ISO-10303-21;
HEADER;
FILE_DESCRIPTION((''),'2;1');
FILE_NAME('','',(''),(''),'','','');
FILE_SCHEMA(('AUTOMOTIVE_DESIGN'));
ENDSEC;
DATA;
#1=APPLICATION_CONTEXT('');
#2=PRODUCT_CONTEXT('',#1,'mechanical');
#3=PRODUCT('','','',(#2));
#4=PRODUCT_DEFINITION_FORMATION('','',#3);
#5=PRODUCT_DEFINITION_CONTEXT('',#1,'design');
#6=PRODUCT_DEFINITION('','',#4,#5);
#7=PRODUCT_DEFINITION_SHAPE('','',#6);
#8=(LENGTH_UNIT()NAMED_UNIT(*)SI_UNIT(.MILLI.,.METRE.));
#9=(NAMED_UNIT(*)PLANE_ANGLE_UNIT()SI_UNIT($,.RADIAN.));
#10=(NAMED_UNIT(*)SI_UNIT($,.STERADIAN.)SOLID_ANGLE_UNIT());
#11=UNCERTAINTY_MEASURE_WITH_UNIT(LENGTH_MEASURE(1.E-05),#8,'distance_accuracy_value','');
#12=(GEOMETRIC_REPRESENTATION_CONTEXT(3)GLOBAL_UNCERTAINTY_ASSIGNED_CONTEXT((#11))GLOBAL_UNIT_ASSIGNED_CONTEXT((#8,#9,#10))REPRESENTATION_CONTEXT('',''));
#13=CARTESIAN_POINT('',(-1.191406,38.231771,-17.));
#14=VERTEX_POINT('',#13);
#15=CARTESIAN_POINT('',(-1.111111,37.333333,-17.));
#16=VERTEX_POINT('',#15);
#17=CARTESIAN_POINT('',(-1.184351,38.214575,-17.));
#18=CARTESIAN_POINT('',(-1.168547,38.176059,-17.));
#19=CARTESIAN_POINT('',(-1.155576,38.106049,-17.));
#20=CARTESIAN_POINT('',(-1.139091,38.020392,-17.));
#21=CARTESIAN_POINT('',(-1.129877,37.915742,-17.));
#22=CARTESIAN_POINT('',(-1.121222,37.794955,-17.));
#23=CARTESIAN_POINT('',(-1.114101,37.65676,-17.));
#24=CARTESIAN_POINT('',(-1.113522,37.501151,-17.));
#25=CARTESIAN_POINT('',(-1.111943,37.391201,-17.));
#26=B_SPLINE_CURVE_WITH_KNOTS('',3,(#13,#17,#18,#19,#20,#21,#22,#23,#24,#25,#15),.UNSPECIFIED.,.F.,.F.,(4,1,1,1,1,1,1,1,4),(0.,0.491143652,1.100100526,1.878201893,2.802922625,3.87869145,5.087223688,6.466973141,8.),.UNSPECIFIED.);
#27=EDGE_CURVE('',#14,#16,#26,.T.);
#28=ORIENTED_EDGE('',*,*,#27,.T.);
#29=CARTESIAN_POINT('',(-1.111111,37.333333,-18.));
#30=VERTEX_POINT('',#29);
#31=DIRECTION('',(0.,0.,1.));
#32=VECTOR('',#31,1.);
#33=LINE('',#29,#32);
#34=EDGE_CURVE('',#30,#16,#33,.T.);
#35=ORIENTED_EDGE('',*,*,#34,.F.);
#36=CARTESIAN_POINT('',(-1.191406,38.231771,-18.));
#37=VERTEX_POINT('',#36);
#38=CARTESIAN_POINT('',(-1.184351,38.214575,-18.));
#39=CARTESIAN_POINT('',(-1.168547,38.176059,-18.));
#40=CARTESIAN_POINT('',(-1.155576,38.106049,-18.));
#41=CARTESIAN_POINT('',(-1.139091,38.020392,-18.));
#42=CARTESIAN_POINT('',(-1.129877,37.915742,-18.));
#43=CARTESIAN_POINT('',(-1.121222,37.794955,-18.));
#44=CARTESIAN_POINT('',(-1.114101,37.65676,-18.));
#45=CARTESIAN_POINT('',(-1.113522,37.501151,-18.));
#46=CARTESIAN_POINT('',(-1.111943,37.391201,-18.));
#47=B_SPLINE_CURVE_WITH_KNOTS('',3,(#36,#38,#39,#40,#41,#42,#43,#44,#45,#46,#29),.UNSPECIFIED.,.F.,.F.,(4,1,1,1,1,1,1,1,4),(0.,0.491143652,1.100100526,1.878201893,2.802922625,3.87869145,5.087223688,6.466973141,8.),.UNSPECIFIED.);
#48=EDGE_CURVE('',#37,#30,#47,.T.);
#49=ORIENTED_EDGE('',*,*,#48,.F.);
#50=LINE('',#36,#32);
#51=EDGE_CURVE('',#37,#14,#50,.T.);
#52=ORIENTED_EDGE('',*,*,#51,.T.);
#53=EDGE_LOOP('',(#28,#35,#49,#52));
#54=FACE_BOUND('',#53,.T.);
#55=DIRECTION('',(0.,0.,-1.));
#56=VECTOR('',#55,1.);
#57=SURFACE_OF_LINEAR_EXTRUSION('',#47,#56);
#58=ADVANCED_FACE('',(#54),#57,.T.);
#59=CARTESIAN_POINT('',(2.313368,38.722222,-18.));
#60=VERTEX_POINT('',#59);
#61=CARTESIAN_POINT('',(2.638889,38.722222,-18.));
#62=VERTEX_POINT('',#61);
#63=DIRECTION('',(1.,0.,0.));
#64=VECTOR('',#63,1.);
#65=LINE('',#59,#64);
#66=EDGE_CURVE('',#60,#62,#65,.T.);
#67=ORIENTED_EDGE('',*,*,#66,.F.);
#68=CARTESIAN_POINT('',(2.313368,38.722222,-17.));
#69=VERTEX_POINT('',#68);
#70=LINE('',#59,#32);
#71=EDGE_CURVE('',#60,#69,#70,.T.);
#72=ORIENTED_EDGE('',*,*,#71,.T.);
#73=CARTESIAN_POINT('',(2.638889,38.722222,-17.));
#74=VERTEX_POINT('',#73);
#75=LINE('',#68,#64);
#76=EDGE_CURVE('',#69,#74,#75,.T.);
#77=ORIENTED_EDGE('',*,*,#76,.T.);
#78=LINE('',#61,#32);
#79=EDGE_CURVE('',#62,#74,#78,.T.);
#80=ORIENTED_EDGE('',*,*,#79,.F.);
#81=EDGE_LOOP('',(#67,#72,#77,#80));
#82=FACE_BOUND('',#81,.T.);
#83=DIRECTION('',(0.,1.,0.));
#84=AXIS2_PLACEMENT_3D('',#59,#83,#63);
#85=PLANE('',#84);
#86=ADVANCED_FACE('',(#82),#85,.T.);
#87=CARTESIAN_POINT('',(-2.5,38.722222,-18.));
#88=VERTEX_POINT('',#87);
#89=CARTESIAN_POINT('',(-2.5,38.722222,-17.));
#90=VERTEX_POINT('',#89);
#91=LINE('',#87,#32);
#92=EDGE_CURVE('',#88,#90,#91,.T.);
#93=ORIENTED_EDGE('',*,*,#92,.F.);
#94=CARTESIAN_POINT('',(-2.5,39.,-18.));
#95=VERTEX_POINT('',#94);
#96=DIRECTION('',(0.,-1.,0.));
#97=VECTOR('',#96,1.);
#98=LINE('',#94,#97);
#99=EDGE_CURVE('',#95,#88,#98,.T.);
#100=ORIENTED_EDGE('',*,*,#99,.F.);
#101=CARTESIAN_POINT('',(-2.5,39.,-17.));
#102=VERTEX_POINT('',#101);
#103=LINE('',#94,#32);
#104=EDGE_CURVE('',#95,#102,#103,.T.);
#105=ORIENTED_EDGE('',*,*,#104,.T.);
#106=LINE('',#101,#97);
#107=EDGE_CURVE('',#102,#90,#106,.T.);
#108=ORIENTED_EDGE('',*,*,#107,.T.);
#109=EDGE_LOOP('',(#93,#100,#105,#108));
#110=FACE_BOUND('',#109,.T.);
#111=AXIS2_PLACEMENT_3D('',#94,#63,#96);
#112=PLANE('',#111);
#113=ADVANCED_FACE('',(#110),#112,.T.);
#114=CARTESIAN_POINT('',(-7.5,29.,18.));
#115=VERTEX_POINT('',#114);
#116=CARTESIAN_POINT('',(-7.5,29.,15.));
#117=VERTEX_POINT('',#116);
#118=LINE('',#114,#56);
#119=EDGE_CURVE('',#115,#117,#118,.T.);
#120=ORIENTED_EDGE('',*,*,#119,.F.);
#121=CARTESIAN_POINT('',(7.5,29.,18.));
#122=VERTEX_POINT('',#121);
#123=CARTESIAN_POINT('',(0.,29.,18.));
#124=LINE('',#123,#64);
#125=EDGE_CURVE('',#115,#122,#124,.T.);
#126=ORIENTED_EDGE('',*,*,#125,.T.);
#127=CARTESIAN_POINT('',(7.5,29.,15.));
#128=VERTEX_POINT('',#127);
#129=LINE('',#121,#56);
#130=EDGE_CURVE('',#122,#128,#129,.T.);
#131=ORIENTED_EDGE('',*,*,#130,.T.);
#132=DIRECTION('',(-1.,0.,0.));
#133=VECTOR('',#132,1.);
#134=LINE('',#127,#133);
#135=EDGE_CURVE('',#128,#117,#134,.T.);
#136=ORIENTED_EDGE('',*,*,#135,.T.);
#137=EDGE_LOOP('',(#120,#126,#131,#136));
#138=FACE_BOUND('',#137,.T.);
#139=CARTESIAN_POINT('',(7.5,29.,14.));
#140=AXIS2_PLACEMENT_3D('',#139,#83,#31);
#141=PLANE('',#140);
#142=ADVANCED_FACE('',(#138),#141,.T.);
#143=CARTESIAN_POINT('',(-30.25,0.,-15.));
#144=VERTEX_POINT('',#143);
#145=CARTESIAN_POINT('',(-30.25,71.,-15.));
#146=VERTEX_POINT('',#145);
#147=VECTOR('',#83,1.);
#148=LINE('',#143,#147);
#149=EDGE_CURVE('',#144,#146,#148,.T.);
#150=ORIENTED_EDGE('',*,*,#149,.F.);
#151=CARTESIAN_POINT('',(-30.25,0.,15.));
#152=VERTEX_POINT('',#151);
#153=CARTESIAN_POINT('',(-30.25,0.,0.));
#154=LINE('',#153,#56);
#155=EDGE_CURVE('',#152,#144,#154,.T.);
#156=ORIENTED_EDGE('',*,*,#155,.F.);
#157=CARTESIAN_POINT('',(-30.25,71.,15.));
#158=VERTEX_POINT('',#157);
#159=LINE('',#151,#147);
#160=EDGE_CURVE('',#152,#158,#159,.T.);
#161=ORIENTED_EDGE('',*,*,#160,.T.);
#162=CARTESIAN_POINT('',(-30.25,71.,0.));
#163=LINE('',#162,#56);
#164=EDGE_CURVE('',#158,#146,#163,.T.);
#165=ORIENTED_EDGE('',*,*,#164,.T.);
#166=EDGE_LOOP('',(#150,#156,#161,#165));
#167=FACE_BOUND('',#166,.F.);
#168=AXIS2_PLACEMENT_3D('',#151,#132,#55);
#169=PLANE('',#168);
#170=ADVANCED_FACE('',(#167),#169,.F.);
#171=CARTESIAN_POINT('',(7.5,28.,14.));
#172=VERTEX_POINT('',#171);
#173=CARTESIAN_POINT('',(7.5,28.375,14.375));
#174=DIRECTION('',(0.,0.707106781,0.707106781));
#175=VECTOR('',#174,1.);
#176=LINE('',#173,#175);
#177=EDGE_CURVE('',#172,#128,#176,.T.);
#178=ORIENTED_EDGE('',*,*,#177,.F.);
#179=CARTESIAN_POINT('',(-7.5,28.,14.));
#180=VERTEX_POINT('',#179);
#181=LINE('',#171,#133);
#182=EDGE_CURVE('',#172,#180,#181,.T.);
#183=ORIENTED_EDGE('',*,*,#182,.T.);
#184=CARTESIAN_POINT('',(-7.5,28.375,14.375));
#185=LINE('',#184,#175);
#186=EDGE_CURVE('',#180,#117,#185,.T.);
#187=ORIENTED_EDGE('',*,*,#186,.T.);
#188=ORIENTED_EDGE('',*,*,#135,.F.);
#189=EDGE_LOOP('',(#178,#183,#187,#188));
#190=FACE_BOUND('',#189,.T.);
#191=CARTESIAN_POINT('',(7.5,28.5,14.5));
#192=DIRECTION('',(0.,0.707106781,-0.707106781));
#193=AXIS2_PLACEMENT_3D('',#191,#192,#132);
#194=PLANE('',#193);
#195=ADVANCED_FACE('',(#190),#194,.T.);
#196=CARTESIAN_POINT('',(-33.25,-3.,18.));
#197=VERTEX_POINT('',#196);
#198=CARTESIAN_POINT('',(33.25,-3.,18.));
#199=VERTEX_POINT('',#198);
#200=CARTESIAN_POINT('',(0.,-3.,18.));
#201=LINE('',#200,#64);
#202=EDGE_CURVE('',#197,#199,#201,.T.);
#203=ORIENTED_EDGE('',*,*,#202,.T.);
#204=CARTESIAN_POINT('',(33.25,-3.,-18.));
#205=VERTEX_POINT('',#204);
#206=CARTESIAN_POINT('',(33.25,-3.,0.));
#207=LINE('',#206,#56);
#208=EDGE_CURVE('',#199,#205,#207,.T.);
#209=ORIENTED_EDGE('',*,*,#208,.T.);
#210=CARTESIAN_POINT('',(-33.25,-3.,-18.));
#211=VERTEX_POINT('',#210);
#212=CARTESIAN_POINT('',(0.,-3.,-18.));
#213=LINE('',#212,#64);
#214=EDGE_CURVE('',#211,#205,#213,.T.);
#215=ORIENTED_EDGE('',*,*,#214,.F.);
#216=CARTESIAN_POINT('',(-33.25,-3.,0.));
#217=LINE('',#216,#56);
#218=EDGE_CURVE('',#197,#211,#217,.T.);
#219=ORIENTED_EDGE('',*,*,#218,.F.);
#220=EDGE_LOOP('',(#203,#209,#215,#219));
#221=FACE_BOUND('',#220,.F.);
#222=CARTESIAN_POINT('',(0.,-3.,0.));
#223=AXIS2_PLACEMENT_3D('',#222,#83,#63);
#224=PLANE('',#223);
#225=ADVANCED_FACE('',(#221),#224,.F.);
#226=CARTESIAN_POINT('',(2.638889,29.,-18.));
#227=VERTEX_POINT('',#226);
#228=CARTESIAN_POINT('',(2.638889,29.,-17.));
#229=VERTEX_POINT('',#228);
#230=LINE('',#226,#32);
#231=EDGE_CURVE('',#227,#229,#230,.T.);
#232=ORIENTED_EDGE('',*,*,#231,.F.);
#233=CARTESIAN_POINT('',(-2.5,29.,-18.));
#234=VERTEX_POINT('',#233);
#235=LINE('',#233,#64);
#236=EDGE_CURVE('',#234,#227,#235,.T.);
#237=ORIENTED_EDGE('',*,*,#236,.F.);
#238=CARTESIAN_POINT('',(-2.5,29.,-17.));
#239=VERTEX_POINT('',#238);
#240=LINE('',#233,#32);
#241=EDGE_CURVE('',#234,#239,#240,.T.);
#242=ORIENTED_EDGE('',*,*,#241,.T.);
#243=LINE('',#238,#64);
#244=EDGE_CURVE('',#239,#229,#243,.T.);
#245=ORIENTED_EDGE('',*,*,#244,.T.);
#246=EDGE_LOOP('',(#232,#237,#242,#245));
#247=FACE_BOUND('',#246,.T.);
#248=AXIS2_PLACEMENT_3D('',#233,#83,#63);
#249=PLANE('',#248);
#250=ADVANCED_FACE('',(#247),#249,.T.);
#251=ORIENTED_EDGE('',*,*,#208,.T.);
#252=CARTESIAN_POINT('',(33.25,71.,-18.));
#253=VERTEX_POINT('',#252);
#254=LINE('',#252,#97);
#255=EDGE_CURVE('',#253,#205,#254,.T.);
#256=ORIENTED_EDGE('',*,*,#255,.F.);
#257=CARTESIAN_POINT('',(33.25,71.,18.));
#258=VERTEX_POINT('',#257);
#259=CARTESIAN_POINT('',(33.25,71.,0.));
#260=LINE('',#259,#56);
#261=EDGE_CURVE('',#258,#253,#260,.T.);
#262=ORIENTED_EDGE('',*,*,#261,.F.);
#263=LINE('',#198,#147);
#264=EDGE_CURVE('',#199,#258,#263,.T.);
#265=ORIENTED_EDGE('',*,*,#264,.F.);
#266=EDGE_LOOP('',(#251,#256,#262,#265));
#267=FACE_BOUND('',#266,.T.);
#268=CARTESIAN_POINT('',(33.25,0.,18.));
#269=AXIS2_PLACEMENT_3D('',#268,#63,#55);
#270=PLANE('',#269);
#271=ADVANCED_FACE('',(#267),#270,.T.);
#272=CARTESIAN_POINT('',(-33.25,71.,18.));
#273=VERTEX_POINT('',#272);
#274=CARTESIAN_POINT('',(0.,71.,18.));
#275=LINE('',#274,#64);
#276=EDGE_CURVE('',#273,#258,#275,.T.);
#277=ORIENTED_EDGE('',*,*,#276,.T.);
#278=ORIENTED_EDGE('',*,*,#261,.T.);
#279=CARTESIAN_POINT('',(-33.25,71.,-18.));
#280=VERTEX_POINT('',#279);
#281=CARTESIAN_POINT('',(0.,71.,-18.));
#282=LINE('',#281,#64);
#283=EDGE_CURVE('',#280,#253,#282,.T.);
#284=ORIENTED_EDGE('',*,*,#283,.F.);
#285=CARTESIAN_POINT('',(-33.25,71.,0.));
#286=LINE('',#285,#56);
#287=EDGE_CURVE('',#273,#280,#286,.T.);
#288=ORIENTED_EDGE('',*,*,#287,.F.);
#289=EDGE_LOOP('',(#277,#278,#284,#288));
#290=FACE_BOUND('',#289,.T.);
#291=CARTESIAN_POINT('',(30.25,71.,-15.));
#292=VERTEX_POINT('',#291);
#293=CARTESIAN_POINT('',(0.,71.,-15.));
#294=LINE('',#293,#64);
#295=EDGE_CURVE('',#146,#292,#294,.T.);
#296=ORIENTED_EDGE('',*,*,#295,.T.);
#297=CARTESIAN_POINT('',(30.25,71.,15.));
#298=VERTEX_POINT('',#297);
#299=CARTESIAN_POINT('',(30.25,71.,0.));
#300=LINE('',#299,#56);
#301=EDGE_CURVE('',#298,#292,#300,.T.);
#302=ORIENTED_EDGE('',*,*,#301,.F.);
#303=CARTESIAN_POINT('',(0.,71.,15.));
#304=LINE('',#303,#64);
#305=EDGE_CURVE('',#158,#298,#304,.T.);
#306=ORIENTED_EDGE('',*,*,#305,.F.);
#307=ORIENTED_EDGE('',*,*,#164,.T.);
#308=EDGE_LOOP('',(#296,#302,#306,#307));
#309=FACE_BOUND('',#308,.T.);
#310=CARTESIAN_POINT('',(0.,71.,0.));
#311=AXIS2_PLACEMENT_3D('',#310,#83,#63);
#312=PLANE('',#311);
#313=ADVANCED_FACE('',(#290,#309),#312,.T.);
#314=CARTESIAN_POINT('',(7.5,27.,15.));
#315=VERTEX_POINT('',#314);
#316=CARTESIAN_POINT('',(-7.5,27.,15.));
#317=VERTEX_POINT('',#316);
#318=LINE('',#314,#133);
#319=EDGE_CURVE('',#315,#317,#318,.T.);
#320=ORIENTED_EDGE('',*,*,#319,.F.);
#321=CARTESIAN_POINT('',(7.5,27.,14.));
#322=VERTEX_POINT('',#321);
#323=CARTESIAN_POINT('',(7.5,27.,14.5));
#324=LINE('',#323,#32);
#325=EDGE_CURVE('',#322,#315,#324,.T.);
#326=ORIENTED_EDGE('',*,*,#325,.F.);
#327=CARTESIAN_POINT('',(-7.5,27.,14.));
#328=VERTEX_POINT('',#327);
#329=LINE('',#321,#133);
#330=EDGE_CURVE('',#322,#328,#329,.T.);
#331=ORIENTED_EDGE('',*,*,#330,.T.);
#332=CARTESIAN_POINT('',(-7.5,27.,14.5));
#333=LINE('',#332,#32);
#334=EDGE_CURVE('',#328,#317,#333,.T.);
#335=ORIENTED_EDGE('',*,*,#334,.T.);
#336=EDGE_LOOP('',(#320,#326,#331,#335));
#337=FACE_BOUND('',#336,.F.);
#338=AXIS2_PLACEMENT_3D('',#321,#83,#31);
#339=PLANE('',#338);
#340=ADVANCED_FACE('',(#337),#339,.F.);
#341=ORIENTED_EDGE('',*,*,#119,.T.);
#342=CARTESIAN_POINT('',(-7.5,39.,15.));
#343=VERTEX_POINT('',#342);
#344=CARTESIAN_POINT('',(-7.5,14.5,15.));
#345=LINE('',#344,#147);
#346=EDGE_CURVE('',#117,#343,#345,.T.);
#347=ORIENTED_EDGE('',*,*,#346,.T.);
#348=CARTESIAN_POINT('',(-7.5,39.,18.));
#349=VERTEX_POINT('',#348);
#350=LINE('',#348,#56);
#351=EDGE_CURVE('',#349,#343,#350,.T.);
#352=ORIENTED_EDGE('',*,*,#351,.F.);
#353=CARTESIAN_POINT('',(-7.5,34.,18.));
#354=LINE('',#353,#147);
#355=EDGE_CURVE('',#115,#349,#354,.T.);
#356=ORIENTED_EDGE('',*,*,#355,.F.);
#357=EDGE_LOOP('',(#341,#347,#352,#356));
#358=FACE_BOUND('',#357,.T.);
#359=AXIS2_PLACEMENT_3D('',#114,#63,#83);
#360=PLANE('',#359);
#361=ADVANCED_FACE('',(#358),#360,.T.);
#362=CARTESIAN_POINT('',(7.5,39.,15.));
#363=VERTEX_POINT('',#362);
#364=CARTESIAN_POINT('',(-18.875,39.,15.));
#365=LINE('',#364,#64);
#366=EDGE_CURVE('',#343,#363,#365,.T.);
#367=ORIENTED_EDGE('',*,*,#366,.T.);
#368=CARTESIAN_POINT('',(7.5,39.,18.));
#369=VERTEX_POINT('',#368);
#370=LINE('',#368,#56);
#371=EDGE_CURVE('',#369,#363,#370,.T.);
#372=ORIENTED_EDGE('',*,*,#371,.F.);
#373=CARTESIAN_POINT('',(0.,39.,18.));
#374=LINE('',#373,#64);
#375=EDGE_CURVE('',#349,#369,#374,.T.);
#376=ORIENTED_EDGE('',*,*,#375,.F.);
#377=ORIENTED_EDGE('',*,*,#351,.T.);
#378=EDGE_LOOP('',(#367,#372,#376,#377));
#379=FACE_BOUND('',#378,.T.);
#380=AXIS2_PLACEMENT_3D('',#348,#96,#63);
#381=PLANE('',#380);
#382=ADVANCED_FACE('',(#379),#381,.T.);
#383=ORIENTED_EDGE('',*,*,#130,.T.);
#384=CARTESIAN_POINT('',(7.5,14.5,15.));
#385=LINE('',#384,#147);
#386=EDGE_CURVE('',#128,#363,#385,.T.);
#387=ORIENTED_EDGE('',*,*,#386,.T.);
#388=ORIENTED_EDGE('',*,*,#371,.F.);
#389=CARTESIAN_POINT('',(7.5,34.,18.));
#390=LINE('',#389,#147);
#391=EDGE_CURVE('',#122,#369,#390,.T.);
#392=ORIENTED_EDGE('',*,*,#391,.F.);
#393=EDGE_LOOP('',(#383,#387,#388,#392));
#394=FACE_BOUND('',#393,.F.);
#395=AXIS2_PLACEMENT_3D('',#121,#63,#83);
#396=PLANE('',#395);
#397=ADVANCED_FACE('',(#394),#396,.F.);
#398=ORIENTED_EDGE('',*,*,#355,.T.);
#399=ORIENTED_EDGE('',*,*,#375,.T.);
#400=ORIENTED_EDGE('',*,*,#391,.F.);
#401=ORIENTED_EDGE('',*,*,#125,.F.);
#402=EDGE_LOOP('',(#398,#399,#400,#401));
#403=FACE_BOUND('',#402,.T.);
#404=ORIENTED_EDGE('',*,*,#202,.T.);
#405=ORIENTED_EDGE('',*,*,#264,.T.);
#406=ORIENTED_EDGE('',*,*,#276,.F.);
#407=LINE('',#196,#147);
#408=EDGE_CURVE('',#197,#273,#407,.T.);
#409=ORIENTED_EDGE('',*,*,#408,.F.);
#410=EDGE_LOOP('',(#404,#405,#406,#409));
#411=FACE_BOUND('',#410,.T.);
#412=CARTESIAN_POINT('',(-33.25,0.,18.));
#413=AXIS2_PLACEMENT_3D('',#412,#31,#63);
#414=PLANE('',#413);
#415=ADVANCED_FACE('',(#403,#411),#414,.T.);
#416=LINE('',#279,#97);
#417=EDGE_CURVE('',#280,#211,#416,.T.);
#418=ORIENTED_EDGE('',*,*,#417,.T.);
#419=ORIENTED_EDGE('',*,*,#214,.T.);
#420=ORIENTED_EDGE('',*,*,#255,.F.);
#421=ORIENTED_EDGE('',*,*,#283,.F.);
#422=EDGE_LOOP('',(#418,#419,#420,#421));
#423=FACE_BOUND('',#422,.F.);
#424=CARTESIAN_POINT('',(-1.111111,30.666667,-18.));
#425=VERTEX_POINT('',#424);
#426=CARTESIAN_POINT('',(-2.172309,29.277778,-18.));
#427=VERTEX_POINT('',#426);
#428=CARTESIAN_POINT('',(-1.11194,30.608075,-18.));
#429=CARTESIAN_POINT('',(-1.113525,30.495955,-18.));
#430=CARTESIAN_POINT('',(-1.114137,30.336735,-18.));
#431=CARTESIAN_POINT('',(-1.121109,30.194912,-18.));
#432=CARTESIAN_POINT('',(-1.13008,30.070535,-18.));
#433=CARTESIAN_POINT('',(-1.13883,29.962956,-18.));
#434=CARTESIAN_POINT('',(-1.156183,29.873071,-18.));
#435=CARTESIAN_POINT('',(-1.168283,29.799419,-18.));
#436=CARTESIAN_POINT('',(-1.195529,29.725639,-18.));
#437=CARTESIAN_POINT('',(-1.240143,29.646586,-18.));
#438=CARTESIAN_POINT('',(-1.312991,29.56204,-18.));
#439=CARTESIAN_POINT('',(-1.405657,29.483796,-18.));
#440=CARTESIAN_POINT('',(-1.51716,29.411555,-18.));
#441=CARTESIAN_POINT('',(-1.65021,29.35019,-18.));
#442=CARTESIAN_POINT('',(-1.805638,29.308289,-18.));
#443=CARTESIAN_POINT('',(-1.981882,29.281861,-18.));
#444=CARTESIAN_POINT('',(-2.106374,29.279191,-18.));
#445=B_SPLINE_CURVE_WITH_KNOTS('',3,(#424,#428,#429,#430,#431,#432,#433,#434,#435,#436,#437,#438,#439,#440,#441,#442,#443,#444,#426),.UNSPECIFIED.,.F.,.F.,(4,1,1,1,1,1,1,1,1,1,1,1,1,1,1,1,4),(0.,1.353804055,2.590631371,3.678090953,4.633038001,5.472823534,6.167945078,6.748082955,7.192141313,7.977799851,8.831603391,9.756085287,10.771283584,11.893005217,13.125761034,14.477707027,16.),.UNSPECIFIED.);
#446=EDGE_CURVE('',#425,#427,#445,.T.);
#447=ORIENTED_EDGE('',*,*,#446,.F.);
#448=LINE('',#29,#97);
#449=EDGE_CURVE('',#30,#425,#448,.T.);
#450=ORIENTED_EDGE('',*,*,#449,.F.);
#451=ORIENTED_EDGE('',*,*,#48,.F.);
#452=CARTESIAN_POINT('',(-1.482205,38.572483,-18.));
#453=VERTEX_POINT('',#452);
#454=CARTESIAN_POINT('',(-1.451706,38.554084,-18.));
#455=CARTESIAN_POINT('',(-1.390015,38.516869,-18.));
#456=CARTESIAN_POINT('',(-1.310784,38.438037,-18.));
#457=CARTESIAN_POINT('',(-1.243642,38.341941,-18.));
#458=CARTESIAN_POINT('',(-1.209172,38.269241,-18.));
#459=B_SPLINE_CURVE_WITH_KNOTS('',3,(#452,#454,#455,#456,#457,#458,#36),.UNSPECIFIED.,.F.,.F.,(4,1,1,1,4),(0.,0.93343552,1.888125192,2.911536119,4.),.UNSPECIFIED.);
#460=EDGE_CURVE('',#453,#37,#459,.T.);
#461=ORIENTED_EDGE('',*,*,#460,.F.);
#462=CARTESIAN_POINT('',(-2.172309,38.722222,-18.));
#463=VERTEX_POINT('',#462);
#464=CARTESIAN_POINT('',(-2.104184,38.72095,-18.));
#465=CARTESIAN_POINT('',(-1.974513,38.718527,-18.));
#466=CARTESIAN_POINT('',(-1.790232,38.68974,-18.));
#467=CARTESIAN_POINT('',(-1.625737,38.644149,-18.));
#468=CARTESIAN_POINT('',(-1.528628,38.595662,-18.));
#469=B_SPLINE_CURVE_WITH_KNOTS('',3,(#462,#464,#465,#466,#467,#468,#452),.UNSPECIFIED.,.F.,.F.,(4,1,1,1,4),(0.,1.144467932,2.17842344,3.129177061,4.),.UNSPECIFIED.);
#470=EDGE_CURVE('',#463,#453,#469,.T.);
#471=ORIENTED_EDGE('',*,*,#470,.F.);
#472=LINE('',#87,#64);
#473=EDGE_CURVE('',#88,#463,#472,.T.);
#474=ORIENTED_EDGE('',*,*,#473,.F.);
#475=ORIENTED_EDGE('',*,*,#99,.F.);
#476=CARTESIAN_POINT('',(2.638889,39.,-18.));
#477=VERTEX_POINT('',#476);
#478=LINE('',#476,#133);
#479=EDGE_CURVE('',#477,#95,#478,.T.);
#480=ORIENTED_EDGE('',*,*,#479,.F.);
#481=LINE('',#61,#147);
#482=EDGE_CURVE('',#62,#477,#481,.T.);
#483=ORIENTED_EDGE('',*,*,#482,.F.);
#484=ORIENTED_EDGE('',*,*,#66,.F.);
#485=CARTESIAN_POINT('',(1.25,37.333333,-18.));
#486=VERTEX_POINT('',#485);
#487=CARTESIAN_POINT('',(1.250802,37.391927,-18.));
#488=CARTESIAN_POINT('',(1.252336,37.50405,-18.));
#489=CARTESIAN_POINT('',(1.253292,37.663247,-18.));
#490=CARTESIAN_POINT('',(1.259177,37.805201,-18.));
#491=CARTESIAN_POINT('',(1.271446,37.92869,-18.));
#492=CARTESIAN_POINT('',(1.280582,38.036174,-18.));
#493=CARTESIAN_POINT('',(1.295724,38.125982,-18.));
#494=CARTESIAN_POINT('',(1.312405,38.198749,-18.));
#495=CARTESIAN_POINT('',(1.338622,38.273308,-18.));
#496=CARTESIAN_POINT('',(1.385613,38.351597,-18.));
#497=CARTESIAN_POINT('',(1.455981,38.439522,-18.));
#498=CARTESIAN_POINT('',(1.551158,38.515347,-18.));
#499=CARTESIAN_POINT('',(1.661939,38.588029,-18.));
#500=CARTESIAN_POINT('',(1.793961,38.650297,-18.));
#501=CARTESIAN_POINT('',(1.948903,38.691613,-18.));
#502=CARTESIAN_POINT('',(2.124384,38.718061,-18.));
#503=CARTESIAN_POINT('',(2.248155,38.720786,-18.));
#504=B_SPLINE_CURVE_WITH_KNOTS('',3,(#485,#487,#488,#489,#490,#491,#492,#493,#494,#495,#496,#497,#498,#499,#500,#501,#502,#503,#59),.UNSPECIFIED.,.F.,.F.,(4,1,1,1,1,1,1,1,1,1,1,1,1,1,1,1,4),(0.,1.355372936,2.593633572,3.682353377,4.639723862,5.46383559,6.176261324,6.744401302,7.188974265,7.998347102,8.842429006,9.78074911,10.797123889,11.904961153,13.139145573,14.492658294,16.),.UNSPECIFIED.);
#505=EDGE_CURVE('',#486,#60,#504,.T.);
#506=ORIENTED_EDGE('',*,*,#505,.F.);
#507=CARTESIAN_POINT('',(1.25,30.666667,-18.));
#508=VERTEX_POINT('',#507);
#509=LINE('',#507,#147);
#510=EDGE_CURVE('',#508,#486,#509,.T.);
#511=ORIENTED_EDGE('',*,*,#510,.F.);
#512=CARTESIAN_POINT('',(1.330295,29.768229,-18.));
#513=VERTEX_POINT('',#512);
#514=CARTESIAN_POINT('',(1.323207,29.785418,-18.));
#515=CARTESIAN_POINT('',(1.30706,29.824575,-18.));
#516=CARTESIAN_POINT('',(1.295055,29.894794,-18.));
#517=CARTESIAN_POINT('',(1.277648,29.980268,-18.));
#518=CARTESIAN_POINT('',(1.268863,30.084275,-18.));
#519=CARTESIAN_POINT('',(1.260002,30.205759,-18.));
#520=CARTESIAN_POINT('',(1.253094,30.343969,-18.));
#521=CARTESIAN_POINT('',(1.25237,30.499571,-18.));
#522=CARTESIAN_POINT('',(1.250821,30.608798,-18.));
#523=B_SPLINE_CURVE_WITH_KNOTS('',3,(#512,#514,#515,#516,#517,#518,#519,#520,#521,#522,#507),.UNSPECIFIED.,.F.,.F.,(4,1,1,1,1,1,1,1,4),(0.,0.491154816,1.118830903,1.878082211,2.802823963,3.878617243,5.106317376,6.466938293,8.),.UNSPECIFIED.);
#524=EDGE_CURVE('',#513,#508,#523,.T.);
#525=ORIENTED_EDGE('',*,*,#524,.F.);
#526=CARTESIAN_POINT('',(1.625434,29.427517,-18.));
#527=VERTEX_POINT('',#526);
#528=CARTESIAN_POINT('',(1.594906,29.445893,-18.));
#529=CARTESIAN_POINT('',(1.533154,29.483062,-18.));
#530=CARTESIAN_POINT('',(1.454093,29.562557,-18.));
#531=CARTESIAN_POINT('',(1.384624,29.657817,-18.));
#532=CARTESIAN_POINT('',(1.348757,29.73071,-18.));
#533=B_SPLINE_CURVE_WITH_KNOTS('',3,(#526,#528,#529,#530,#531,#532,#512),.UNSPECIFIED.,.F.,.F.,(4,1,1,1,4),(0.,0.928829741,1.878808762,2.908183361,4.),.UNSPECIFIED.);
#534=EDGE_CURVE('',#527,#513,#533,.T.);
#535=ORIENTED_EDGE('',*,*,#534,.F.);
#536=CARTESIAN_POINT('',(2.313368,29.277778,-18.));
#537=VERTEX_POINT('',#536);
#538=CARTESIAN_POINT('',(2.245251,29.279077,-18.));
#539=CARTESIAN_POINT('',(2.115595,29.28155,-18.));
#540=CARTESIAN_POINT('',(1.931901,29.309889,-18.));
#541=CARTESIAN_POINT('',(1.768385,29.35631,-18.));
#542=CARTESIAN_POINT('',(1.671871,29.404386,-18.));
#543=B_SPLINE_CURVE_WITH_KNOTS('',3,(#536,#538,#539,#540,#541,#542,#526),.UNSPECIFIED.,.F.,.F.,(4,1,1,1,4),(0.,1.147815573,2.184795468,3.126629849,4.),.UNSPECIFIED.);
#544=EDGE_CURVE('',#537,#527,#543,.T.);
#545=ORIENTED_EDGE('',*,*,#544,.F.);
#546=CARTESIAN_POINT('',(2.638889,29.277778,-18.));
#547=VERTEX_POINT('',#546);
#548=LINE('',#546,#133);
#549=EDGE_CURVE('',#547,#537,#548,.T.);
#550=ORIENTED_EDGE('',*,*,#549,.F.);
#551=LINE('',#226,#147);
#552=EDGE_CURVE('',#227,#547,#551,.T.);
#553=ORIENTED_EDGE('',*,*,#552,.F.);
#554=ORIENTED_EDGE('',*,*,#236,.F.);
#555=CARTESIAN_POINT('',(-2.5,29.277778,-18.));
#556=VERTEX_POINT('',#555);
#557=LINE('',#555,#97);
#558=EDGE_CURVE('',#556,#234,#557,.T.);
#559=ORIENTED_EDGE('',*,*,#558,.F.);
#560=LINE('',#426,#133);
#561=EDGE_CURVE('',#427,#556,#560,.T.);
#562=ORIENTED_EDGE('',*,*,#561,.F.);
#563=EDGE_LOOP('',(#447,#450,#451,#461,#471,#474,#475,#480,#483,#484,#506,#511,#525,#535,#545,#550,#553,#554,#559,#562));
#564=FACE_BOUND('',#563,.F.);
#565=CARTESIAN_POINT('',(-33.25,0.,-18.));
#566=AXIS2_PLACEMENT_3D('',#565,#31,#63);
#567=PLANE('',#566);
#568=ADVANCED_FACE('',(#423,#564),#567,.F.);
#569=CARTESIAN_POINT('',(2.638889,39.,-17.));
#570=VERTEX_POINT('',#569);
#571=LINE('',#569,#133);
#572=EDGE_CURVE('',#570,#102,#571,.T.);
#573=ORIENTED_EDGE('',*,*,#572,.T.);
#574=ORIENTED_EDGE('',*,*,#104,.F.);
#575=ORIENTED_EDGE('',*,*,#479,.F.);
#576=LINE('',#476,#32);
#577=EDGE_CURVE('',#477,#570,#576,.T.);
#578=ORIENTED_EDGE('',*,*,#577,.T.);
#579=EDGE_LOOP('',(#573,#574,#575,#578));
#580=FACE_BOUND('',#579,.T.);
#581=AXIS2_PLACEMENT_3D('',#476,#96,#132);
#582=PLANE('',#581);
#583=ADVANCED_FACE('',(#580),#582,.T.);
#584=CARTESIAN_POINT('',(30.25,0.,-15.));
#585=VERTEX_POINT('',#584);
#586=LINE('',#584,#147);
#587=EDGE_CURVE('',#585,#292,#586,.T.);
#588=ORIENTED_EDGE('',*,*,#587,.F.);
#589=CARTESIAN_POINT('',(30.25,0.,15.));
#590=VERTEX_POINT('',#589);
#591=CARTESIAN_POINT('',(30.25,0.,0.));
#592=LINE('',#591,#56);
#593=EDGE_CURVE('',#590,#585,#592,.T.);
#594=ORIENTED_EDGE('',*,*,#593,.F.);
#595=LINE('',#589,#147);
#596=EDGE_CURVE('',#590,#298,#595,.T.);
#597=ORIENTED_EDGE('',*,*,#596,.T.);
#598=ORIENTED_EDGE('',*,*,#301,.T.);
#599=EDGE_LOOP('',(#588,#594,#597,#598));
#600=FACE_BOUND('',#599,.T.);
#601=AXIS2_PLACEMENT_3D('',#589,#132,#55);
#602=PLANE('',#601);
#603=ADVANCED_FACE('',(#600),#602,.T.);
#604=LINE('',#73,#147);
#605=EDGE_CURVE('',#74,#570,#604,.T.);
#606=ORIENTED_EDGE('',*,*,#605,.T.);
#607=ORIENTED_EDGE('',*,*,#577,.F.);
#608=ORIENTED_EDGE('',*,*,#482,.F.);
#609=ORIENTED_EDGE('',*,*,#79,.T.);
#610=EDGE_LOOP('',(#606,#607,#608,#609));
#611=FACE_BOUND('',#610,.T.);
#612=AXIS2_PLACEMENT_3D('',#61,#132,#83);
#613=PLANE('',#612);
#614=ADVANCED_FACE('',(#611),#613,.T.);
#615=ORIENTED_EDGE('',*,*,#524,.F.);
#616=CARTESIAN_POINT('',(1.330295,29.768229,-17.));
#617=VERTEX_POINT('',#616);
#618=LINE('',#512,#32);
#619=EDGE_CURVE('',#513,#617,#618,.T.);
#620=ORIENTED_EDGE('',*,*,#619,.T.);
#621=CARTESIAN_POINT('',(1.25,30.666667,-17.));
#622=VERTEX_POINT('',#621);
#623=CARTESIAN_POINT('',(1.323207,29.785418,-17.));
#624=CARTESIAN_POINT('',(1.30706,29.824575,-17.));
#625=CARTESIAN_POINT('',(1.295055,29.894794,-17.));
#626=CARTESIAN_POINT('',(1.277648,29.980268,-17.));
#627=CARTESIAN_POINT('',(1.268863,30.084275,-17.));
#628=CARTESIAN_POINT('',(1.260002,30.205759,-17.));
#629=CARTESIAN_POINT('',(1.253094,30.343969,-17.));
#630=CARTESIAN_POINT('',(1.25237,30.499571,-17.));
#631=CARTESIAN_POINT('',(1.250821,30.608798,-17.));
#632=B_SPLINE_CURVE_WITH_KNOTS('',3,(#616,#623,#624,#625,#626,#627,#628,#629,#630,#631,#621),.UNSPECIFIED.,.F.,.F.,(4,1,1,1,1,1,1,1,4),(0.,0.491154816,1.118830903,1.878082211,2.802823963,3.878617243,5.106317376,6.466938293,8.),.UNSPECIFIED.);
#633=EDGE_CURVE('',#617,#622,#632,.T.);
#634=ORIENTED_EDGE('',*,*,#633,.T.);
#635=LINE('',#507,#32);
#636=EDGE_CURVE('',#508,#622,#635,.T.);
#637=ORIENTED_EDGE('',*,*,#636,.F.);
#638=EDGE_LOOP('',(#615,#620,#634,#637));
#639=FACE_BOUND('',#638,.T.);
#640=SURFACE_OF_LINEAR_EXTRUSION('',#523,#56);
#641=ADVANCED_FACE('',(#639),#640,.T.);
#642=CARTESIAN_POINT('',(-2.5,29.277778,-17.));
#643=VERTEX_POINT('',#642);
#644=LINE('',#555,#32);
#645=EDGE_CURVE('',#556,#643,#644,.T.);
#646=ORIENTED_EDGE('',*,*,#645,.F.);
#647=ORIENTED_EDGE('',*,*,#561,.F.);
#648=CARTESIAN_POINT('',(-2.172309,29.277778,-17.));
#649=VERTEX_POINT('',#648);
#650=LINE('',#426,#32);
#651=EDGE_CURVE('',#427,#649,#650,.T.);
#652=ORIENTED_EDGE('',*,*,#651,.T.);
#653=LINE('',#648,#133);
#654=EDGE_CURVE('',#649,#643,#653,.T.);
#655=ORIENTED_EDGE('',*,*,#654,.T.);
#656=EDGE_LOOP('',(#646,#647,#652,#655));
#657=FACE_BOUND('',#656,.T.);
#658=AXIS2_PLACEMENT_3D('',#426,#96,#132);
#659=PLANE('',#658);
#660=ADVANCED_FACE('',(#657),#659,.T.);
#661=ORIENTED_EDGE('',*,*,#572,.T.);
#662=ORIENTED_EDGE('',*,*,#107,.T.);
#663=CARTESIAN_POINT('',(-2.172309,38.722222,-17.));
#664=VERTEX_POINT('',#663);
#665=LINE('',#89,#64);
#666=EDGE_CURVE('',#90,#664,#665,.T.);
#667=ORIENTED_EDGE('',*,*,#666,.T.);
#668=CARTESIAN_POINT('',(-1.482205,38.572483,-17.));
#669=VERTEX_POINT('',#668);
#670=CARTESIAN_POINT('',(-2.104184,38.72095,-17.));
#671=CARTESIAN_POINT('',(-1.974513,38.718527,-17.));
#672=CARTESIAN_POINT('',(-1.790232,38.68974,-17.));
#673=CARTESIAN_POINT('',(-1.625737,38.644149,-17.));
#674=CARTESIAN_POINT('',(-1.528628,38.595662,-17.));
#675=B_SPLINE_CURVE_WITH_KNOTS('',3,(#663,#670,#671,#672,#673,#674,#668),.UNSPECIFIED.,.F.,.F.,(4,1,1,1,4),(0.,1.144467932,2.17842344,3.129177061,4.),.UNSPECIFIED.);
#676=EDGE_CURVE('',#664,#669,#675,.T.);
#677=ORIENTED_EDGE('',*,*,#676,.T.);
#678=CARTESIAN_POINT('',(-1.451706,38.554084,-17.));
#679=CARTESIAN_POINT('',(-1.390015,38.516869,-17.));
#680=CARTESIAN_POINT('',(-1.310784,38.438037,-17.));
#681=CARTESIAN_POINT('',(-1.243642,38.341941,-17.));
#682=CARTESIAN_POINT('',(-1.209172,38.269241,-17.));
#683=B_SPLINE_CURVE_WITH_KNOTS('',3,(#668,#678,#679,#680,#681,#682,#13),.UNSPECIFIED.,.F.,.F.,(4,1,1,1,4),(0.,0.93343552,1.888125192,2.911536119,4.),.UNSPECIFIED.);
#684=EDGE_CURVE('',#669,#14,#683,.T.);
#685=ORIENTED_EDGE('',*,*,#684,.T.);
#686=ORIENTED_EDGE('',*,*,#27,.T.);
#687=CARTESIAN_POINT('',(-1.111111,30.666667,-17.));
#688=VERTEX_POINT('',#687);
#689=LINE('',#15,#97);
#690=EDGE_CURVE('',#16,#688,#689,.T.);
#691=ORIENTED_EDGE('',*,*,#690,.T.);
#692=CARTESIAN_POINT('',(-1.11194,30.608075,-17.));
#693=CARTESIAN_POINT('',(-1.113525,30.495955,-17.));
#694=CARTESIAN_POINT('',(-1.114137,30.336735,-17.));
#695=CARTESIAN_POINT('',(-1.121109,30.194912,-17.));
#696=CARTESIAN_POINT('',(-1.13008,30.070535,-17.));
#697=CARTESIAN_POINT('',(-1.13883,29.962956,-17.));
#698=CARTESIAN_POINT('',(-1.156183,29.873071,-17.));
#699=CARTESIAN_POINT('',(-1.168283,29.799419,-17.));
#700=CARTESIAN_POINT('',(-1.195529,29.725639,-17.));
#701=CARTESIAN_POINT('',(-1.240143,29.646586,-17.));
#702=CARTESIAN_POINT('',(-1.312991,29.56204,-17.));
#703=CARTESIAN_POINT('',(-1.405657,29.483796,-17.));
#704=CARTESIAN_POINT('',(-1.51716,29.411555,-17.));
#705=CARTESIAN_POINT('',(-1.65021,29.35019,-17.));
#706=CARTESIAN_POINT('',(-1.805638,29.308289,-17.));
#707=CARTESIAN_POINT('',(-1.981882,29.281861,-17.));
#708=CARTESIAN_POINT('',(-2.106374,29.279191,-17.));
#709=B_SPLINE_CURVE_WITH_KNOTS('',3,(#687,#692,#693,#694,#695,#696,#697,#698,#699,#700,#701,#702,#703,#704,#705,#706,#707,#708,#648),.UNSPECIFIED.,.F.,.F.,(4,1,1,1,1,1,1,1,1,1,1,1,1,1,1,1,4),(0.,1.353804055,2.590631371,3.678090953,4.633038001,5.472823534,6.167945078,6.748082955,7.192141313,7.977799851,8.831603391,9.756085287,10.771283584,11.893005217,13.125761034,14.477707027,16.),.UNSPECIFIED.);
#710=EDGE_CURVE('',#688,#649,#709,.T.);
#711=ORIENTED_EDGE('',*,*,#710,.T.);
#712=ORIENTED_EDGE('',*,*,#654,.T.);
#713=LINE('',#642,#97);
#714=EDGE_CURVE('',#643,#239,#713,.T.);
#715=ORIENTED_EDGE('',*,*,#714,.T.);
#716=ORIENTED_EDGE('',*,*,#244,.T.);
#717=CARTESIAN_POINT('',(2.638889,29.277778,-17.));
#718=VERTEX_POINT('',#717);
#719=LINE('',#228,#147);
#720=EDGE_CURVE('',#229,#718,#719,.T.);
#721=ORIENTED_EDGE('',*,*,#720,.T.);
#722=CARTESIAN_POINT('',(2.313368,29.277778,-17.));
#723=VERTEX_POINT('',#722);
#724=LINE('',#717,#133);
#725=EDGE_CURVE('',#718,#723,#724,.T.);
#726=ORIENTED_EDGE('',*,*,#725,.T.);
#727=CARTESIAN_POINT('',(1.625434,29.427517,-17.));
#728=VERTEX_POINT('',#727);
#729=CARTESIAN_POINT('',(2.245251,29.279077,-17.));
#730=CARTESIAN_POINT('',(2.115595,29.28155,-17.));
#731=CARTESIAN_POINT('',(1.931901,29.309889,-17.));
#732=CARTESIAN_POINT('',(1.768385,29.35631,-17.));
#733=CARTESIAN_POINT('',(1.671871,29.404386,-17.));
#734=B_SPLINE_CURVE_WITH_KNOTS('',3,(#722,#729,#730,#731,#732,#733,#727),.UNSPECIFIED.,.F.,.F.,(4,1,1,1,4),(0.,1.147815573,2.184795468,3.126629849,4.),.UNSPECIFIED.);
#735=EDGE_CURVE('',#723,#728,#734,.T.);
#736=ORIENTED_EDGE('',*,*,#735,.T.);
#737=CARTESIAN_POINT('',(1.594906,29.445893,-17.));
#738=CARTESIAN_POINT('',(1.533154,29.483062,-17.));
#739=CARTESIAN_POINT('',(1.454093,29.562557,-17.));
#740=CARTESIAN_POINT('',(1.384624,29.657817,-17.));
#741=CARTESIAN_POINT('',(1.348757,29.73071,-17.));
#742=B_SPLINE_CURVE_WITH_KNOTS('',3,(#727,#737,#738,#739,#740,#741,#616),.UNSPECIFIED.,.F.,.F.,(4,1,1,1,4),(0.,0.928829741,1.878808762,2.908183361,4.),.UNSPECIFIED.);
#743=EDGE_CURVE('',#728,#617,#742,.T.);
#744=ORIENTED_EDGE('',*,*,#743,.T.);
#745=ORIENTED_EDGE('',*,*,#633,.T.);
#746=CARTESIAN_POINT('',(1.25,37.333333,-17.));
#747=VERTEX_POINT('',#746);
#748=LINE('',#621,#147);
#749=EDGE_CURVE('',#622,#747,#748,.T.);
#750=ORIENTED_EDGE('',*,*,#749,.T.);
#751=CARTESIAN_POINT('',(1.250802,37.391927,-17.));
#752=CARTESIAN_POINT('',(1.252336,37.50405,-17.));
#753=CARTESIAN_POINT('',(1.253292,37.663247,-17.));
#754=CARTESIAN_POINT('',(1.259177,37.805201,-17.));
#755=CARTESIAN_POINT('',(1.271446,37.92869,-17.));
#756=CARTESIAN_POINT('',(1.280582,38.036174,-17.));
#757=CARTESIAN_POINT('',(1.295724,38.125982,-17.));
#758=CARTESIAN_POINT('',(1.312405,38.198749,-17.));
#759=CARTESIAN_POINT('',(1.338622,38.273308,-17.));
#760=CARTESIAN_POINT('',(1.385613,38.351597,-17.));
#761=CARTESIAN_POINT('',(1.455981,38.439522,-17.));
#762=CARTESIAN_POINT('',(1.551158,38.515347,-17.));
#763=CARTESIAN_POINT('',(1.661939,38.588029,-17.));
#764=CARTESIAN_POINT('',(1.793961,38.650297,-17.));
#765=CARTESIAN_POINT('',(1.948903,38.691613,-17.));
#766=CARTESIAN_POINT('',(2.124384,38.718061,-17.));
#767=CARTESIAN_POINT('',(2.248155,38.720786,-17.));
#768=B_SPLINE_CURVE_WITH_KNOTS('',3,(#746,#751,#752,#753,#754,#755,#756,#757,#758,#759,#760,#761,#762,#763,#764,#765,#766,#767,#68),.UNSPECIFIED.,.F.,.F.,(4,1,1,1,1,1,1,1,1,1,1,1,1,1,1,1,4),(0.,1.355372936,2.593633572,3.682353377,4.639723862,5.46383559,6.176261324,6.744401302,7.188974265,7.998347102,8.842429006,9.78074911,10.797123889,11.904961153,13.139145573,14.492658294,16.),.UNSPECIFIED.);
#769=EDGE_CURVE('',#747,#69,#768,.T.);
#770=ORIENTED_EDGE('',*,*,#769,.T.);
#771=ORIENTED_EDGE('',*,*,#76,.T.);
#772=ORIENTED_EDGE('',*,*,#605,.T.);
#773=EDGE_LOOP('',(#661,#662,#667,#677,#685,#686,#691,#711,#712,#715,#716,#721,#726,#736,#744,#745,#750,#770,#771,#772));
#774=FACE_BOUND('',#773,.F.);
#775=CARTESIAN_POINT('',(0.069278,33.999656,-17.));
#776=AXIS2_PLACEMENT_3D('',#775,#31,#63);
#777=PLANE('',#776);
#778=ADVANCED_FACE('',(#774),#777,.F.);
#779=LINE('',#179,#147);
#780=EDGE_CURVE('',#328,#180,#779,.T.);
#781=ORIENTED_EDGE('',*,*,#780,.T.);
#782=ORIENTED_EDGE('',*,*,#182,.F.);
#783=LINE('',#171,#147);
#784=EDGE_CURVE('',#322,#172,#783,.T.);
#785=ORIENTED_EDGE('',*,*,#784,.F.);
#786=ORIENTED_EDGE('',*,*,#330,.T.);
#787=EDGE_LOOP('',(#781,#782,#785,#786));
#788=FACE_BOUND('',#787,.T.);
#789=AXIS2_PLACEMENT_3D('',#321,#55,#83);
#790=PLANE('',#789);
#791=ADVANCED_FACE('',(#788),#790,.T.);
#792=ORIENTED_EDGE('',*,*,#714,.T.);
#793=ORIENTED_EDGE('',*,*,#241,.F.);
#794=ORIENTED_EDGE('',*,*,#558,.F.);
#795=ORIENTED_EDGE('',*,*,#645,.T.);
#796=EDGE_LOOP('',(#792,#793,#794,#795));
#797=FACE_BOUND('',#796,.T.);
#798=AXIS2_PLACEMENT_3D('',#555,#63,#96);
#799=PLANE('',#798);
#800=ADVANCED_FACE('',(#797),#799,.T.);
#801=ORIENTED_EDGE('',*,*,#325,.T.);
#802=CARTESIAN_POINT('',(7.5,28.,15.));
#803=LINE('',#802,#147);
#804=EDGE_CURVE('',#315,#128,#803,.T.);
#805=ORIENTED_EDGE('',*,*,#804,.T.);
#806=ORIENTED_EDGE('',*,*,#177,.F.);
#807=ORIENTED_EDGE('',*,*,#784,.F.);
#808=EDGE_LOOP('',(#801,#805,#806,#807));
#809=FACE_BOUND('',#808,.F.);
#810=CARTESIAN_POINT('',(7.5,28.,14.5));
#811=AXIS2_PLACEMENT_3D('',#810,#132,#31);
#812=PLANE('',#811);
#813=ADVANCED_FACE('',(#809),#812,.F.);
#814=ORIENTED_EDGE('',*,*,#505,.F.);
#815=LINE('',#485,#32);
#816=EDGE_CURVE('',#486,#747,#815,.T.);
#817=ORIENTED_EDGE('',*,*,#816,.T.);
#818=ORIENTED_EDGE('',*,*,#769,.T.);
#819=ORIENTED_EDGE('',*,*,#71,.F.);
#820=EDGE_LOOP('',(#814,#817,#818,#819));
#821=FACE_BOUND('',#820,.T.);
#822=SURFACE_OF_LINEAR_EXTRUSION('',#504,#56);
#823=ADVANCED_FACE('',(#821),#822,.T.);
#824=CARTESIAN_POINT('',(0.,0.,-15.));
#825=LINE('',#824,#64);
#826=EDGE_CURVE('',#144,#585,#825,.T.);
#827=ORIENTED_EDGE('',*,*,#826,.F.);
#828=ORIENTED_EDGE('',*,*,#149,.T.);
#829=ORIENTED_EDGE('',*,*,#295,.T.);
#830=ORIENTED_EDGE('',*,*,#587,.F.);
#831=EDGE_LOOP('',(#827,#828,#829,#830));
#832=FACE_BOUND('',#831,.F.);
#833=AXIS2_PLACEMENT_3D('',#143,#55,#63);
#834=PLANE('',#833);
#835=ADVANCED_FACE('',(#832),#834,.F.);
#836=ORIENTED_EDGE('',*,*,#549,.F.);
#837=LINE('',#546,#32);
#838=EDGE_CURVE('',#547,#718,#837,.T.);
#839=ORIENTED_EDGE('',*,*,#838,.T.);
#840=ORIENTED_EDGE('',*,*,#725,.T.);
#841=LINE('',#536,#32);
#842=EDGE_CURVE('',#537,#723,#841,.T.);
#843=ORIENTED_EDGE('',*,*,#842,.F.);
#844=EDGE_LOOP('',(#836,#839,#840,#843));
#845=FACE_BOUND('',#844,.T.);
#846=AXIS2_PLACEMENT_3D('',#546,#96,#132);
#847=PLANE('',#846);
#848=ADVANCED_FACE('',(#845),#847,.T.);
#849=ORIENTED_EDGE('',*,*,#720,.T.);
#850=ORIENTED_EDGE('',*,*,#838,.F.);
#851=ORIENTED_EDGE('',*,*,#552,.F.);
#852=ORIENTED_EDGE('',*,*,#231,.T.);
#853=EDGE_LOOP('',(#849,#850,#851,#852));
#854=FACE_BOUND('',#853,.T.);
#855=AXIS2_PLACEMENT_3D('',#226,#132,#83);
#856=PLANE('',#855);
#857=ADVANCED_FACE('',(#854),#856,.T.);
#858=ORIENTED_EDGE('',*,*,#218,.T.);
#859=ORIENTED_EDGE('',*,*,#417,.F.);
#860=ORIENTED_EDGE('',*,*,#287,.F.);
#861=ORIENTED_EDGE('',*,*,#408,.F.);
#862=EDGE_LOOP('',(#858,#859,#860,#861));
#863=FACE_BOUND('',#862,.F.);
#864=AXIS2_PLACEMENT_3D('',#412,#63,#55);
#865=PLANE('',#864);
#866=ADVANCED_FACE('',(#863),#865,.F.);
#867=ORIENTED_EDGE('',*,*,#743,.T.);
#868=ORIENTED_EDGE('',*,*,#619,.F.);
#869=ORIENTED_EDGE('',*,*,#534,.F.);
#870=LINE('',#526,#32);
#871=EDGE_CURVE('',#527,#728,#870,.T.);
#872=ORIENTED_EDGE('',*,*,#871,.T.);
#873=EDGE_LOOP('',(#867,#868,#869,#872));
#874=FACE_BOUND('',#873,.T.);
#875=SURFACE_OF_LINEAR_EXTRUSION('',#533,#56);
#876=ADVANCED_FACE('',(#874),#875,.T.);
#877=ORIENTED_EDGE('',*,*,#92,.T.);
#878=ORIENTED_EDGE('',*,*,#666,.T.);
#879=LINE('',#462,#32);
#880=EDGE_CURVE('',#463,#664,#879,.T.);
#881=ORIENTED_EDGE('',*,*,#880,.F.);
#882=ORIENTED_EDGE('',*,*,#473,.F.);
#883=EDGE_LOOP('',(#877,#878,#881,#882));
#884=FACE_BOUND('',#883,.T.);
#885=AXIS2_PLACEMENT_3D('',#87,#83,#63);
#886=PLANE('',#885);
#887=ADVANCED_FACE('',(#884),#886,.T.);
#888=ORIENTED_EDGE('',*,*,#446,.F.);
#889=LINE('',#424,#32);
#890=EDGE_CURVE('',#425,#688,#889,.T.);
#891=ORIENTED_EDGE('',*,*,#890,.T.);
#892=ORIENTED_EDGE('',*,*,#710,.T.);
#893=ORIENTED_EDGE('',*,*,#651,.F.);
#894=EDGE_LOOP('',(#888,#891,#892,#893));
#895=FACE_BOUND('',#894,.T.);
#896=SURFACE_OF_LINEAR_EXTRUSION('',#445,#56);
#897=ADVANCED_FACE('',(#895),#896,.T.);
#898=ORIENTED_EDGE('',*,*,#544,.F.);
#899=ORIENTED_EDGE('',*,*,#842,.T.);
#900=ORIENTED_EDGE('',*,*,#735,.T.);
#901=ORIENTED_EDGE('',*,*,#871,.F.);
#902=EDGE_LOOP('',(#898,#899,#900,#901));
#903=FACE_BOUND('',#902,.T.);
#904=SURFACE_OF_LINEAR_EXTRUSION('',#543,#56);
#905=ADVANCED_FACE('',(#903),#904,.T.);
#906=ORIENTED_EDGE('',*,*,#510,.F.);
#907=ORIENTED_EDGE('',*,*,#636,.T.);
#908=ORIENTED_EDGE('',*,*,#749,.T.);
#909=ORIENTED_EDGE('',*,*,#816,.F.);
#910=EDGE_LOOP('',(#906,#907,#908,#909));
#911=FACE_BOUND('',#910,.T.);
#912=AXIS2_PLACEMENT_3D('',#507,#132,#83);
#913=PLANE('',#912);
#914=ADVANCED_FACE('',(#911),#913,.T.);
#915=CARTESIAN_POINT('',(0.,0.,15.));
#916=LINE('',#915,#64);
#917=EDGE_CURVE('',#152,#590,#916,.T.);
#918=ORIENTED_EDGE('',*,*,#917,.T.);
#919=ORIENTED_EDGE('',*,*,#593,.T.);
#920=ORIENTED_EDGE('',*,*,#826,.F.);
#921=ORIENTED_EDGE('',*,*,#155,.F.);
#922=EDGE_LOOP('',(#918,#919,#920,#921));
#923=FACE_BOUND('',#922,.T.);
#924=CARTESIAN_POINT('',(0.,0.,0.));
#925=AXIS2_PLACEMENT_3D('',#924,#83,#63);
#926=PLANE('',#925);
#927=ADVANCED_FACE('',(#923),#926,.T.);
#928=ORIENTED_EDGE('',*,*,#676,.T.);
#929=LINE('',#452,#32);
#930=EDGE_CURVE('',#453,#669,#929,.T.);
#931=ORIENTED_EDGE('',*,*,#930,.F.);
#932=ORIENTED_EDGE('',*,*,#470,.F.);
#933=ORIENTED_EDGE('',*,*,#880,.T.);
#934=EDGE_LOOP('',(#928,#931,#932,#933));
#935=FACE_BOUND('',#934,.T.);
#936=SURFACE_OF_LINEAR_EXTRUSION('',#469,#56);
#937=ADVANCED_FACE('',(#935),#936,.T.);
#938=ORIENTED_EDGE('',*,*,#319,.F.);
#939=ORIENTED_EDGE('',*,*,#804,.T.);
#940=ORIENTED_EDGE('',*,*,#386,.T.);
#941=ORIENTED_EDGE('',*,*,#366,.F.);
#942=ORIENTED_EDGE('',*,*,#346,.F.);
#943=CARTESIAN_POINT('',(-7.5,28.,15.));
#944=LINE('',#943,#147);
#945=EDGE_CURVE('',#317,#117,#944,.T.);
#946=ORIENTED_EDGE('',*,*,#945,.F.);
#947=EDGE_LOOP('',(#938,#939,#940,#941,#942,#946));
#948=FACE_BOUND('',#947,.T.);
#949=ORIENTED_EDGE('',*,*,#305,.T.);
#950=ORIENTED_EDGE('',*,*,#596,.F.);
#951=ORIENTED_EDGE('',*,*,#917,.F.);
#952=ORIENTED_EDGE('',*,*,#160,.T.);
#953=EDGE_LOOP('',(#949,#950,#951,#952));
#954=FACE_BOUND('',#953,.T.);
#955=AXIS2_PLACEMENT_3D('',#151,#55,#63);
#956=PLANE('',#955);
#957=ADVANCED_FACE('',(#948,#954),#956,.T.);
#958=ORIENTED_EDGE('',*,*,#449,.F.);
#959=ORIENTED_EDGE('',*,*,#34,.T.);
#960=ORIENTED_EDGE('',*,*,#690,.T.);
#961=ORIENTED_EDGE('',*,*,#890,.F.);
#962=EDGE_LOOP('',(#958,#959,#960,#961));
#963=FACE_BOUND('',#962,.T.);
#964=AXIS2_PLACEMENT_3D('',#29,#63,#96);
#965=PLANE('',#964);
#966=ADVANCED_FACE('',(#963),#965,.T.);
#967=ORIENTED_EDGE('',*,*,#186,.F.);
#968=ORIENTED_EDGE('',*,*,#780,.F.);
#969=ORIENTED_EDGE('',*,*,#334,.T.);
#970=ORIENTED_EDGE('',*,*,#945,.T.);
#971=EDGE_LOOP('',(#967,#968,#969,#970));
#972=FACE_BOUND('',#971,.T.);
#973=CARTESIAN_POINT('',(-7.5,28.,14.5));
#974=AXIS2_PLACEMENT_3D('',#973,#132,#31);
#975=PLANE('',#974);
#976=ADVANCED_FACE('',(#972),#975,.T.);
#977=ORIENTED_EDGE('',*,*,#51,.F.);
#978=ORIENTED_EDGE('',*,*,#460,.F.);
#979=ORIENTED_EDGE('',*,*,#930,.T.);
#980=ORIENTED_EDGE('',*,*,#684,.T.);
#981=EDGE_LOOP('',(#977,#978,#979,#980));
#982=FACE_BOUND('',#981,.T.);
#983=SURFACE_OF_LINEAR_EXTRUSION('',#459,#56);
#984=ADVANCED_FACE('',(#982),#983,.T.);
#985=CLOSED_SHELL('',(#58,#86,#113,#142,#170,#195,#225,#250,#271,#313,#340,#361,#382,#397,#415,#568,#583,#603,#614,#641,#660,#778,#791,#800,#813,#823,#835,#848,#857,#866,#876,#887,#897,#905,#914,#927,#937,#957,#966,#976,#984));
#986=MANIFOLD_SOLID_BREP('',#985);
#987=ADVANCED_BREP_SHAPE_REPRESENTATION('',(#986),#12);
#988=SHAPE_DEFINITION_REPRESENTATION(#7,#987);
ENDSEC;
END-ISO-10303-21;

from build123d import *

# Parameters (mm, degrees)
SKETCH1_W           = 66.5
SKETCH1_H           = 36
SKETCH1_W_2         = 60.5
SKETCH1_H_2         = 30
BOSS_EXTRUDE1_DEPTH = 71
SKETCH1_3_W         = 66.5
SKETCH1_3_H         = 36
SKETCH1_3_W_2       = 60.5
SKETCH1_3_H_2       = 30
BOSS_EXTRUDE2_DEPTH = 3
CUT_EXTRUDE1_REACH  = 88.27
SKETCH2_W           = 15
SKETCH2_H           = 10
SKETCH4_W           = 1
SKETCH4_H           = 2
BOSS_EXTRUDE4_DEPTH = 15
CHAMFER1_SIZE       = 1
CUT_EXTRUDE2_DEPTH  = 1


with BuildPart() as part:
    # Sketch1 → Boss-Extrude1 (new body)
    with BuildSketch(Plane(origin=(0, 0, 0), x_dir=(1, 0, 0), z_dir=(0, 1, 0))):
        Rectangle(SKETCH1_W, SKETCH1_H)
        Rectangle(SKETCH1_W_2, SKETCH1_H_2, mode=Mode.SUBTRACT)
    extrude(amount=BOSS_EXTRUDE1_DEPTH)

    # Sketch1<3> → Boss-Extrude2 (add)
    with BuildSketch(Plane(origin=(0, 0, 0), x_dir=(1, 0, 0), z_dir=(0, 1, 0))):
        Rectangle(SKETCH1_3_W, SKETCH1_3_H)
        Rectangle(SKETCH1_3_W_2, SKETCH1_3_H_2, mode=Mode.SUBTRACT)
        Rectangle(SKETCH1_3_W_2, SKETCH1_3_H_2)
    extrude(amount=-BOSS_EXTRUDE2_DEPTH)

    # Sketch2 → Cut-Extrude1 (cut, up to next)
    with BuildSketch(Plane.XY.offset(18), mode=Mode.PRIVATE) as cut_extrude1_sk1:
        with Locations((0, 34)):
            Rectangle(SKETCH2_W, SKETCH2_H)
    cut_extrude1_tool1 = extrude(cut_extrude1_sk1.sketch, amount=-CUT_EXTRUDE1_REACH, mode=Mode.PRIVATE) & part.part
    add(cut_extrude1_tool1.solids().sort_by_distance((0, 34, 18))[0], mode=Mode.SUBTRACT)

    # Sketch4 → Boss-Extrude4 (add)
    with BuildSketch(Plane.ZY.offset(-7.5)):
        with Locations((14.5, 28)):
            Rectangle(SKETCH4_W, SKETCH4_H)
    extrude(amount=BOSS_EXTRUDE4_DEPTH)

    # Chamfer1
    chamfer1_edges = [part.edges().sort_by_distance(p)[0] for p in [
        (0, 29, 14),
    ]]
    chamfer(chamfer1_edges, length=CHAMFER1_SIZE)

    # Sketch5 → Cut-Extrude2 (cut)
    with BuildSketch(Plane(origin=(0, 0, -18), x_dir=(-1, 0, 0), z_dir=(0, 0, -1))):
        with BuildLine():
            Line((-2.638888889, 38.722222222), (-2.638888889, 39))
            Line((-2.638888889, 39), (2.5, 39))
            Line((2.5, 39), (2.5, 38.722222222))
            Line((2.5, 38.722222222), (2.172309028, 38.722222222))
            add(Edge.make_bspline(
                [(2.172309028, 38.722222222), (2.104184293, 38.720949678), (1.974513104, 38.718527469), (1.790231692, 38.689739833), (1.625736646, 38.644148981), (1.528628421, 38.595662221), (1.482204861, 38.572482639)],
                knots=[0, 0, 0, 0, 1.144467932, 2.17842344, 3.129177061, 4, 4, 4, 4], degree=3))
            add(Edge.make_bspline(
                [(1.482204861, 38.572482639), (1.451706337, 38.554084379), (1.390014843, 38.516868933), (1.310783803, 38.438036518), (1.243641581, 38.341940776), (1.209171954, 38.269240619), (1.19140625, 38.231770833)],
                knots=[0, 0, 0, 0, 0.93343552, 1.888125192, 2.911536119, 4, 4, 4, 4], degree=3))
            add(Edge.make_bspline(
                [(1.19140625, 38.231770833), (1.184350586, 38.214575185), (1.16854678, 38.176059078), (1.15557603, 38.106048651), (1.139091299, 38.020392262), (1.129876754, 37.915742203), (1.121221924, 37.794954741), (1.114101268, 37.656759716), (1.113522404, 37.501150705), (1.111942587, 37.391201064), (1.111111111, 37.333333333)],
                knots=[0, 0, 0, 0, 0.491143652, 1.100100526, 1.878201893, 2.802922625, 3.87869145, 5.087223688, 6.466973141, 8, 8, 8, 8], degree=3))
            Line((1.111111111, 37.333333333), (1.111111111, 30.666666667))
            add(Edge.make_bspline(
                [(1.111111111, 30.666666667), (1.111939588, 30.608075204), (1.113524957, 30.495954931), (1.114136618, 30.336734675), (1.121108982, 30.194912102), (1.130079845, 30.070534861), (1.138829557, 29.962956044), (1.156182735, 29.873070769), (1.16828298, 29.799419433), (1.195529243, 29.72563882), (1.240143315, 29.646586055), (1.312990851, 29.562040058), (1.405657276, 29.483796342), (1.517159605, 29.411555124), (1.650210211, 29.350190049), (1.805638269, 29.308289334), (1.981882259, 29.281860539), (2.106374028, 29.279191428), (2.172309028, 29.277777778)],
                knots=[0, 0, 0, 0, 1.353804055, 2.590631371, 3.678090953, 4.633038001, 5.472823534, 6.167945078, 6.748082955, 7.192141313, 7.977799851, 8.831603391, 9.756085287, 10.771283584, 11.893005217, 13.125761034, 14.477707027, 16, 16, 16, 16], degree=3))
            Line((2.172309028, 29.277777778), (2.5, 29.277777778))
            Line((2.5, 29.277777778), (2.5, 29))
            Line((2.5, 29), (-2.638888889, 29))
            Line((-2.638888889, 29), (-2.638888889, 29.277777778))
            Line((-2.638888889, 29.277777778), (-2.313368056, 29.277777778))
            add(Edge.make_bspline(
                [(-2.313368056, 29.277777778), (-2.245251066, 29.279076928), (-2.115594618, 29.281549779), (-1.931900868, 29.309888715), (-1.76838513, 29.356309608), (-1.671870984, 29.404385876), (-1.625434028, 29.427517361)],
                knots=[0, 0, 0, 0, 1.147815573, 2.184795468, 3.126629849, 4, 4, 4, 4], degree=3))
            add(Edge.make_bspline(
                [(-1.625434028, 29.427517361), (-1.594905814, 29.445892719), (-1.533154265, 29.483061837), (-1.454093177, 29.562557374), (-1.38462361, 29.657817078), (-1.348756572, 29.730709883), (-1.330295139, 29.768229167)],
                knots=[0, 0, 0, 0, 0.928829741, 1.878808762, 2.908183361, 4, 4, 4, 4], degree=3))
            add(Edge.make_bspline(
                [(-1.330295139, 29.768229167), (-1.323206914, 29.785418433), (-1.307060225, 29.82457489), (-1.295055162, 29.894793912), (-1.277647574, 29.980267632), (-1.268863248, 30.084275321), (-1.26000169, 30.205758881), (-1.253094282, 30.343969196), (-1.252369885, 30.49957111), (-1.250820734, 30.60879845), (-1.25, 30.666666667)],
                knots=[0, 0, 0, 0, 0.491154816, 1.118830903, 1.878082211, 2.802823963, 3.878617243, 5.106317376, 6.466938293, 8, 8, 8, 8], degree=3))
            Line((-1.25, 30.666666667), (-1.25, 37.333333333))
            add(Edge.make_bspline(
                [(-1.25, 37.333333333), (-1.250801761, 37.391926604), (-1.252336008, 37.504050339), (-1.253291766, 37.663247301), (-1.259177025, 37.805200537), (-1.271446326, 37.928690427), (-1.280582203, 38.036174276), (-1.295723919, 38.125982088), (-1.312405424, 38.198748616), (-1.338621653, 38.273308229), (-1.385613233, 38.351596892), (-1.455981361, 38.439521903), (-1.551157589, 38.515346585), (-1.661938741, 38.588028597), (-1.793960563, 38.650297433), (-1.948902922, 38.691613339), (-2.12438389, 38.71806089), (-2.248154932, 38.720786263), (-2.313368056, 38.722222222)],
                knots=[0, 0, 0, 0, 1.355372936, 2.593633572, 3.682353377, 4.639723862, 5.46383559, 6.176261324, 6.744401302, 7.188974265, 7.998347102, 8.842429006, 9.78074911, 10.797123889, 11.904961153, 13.139145573, 14.492658294, 16, 16, 16, 16], degree=3))
            Line((-2.313368056, 38.722222222), (-2.638888889, 38.722222222))
        make_face()
    extrude(amount=-CUT_EXTRUDE2_DEPTH, mode=Mode.SUBTRACT)


solid = part.part
